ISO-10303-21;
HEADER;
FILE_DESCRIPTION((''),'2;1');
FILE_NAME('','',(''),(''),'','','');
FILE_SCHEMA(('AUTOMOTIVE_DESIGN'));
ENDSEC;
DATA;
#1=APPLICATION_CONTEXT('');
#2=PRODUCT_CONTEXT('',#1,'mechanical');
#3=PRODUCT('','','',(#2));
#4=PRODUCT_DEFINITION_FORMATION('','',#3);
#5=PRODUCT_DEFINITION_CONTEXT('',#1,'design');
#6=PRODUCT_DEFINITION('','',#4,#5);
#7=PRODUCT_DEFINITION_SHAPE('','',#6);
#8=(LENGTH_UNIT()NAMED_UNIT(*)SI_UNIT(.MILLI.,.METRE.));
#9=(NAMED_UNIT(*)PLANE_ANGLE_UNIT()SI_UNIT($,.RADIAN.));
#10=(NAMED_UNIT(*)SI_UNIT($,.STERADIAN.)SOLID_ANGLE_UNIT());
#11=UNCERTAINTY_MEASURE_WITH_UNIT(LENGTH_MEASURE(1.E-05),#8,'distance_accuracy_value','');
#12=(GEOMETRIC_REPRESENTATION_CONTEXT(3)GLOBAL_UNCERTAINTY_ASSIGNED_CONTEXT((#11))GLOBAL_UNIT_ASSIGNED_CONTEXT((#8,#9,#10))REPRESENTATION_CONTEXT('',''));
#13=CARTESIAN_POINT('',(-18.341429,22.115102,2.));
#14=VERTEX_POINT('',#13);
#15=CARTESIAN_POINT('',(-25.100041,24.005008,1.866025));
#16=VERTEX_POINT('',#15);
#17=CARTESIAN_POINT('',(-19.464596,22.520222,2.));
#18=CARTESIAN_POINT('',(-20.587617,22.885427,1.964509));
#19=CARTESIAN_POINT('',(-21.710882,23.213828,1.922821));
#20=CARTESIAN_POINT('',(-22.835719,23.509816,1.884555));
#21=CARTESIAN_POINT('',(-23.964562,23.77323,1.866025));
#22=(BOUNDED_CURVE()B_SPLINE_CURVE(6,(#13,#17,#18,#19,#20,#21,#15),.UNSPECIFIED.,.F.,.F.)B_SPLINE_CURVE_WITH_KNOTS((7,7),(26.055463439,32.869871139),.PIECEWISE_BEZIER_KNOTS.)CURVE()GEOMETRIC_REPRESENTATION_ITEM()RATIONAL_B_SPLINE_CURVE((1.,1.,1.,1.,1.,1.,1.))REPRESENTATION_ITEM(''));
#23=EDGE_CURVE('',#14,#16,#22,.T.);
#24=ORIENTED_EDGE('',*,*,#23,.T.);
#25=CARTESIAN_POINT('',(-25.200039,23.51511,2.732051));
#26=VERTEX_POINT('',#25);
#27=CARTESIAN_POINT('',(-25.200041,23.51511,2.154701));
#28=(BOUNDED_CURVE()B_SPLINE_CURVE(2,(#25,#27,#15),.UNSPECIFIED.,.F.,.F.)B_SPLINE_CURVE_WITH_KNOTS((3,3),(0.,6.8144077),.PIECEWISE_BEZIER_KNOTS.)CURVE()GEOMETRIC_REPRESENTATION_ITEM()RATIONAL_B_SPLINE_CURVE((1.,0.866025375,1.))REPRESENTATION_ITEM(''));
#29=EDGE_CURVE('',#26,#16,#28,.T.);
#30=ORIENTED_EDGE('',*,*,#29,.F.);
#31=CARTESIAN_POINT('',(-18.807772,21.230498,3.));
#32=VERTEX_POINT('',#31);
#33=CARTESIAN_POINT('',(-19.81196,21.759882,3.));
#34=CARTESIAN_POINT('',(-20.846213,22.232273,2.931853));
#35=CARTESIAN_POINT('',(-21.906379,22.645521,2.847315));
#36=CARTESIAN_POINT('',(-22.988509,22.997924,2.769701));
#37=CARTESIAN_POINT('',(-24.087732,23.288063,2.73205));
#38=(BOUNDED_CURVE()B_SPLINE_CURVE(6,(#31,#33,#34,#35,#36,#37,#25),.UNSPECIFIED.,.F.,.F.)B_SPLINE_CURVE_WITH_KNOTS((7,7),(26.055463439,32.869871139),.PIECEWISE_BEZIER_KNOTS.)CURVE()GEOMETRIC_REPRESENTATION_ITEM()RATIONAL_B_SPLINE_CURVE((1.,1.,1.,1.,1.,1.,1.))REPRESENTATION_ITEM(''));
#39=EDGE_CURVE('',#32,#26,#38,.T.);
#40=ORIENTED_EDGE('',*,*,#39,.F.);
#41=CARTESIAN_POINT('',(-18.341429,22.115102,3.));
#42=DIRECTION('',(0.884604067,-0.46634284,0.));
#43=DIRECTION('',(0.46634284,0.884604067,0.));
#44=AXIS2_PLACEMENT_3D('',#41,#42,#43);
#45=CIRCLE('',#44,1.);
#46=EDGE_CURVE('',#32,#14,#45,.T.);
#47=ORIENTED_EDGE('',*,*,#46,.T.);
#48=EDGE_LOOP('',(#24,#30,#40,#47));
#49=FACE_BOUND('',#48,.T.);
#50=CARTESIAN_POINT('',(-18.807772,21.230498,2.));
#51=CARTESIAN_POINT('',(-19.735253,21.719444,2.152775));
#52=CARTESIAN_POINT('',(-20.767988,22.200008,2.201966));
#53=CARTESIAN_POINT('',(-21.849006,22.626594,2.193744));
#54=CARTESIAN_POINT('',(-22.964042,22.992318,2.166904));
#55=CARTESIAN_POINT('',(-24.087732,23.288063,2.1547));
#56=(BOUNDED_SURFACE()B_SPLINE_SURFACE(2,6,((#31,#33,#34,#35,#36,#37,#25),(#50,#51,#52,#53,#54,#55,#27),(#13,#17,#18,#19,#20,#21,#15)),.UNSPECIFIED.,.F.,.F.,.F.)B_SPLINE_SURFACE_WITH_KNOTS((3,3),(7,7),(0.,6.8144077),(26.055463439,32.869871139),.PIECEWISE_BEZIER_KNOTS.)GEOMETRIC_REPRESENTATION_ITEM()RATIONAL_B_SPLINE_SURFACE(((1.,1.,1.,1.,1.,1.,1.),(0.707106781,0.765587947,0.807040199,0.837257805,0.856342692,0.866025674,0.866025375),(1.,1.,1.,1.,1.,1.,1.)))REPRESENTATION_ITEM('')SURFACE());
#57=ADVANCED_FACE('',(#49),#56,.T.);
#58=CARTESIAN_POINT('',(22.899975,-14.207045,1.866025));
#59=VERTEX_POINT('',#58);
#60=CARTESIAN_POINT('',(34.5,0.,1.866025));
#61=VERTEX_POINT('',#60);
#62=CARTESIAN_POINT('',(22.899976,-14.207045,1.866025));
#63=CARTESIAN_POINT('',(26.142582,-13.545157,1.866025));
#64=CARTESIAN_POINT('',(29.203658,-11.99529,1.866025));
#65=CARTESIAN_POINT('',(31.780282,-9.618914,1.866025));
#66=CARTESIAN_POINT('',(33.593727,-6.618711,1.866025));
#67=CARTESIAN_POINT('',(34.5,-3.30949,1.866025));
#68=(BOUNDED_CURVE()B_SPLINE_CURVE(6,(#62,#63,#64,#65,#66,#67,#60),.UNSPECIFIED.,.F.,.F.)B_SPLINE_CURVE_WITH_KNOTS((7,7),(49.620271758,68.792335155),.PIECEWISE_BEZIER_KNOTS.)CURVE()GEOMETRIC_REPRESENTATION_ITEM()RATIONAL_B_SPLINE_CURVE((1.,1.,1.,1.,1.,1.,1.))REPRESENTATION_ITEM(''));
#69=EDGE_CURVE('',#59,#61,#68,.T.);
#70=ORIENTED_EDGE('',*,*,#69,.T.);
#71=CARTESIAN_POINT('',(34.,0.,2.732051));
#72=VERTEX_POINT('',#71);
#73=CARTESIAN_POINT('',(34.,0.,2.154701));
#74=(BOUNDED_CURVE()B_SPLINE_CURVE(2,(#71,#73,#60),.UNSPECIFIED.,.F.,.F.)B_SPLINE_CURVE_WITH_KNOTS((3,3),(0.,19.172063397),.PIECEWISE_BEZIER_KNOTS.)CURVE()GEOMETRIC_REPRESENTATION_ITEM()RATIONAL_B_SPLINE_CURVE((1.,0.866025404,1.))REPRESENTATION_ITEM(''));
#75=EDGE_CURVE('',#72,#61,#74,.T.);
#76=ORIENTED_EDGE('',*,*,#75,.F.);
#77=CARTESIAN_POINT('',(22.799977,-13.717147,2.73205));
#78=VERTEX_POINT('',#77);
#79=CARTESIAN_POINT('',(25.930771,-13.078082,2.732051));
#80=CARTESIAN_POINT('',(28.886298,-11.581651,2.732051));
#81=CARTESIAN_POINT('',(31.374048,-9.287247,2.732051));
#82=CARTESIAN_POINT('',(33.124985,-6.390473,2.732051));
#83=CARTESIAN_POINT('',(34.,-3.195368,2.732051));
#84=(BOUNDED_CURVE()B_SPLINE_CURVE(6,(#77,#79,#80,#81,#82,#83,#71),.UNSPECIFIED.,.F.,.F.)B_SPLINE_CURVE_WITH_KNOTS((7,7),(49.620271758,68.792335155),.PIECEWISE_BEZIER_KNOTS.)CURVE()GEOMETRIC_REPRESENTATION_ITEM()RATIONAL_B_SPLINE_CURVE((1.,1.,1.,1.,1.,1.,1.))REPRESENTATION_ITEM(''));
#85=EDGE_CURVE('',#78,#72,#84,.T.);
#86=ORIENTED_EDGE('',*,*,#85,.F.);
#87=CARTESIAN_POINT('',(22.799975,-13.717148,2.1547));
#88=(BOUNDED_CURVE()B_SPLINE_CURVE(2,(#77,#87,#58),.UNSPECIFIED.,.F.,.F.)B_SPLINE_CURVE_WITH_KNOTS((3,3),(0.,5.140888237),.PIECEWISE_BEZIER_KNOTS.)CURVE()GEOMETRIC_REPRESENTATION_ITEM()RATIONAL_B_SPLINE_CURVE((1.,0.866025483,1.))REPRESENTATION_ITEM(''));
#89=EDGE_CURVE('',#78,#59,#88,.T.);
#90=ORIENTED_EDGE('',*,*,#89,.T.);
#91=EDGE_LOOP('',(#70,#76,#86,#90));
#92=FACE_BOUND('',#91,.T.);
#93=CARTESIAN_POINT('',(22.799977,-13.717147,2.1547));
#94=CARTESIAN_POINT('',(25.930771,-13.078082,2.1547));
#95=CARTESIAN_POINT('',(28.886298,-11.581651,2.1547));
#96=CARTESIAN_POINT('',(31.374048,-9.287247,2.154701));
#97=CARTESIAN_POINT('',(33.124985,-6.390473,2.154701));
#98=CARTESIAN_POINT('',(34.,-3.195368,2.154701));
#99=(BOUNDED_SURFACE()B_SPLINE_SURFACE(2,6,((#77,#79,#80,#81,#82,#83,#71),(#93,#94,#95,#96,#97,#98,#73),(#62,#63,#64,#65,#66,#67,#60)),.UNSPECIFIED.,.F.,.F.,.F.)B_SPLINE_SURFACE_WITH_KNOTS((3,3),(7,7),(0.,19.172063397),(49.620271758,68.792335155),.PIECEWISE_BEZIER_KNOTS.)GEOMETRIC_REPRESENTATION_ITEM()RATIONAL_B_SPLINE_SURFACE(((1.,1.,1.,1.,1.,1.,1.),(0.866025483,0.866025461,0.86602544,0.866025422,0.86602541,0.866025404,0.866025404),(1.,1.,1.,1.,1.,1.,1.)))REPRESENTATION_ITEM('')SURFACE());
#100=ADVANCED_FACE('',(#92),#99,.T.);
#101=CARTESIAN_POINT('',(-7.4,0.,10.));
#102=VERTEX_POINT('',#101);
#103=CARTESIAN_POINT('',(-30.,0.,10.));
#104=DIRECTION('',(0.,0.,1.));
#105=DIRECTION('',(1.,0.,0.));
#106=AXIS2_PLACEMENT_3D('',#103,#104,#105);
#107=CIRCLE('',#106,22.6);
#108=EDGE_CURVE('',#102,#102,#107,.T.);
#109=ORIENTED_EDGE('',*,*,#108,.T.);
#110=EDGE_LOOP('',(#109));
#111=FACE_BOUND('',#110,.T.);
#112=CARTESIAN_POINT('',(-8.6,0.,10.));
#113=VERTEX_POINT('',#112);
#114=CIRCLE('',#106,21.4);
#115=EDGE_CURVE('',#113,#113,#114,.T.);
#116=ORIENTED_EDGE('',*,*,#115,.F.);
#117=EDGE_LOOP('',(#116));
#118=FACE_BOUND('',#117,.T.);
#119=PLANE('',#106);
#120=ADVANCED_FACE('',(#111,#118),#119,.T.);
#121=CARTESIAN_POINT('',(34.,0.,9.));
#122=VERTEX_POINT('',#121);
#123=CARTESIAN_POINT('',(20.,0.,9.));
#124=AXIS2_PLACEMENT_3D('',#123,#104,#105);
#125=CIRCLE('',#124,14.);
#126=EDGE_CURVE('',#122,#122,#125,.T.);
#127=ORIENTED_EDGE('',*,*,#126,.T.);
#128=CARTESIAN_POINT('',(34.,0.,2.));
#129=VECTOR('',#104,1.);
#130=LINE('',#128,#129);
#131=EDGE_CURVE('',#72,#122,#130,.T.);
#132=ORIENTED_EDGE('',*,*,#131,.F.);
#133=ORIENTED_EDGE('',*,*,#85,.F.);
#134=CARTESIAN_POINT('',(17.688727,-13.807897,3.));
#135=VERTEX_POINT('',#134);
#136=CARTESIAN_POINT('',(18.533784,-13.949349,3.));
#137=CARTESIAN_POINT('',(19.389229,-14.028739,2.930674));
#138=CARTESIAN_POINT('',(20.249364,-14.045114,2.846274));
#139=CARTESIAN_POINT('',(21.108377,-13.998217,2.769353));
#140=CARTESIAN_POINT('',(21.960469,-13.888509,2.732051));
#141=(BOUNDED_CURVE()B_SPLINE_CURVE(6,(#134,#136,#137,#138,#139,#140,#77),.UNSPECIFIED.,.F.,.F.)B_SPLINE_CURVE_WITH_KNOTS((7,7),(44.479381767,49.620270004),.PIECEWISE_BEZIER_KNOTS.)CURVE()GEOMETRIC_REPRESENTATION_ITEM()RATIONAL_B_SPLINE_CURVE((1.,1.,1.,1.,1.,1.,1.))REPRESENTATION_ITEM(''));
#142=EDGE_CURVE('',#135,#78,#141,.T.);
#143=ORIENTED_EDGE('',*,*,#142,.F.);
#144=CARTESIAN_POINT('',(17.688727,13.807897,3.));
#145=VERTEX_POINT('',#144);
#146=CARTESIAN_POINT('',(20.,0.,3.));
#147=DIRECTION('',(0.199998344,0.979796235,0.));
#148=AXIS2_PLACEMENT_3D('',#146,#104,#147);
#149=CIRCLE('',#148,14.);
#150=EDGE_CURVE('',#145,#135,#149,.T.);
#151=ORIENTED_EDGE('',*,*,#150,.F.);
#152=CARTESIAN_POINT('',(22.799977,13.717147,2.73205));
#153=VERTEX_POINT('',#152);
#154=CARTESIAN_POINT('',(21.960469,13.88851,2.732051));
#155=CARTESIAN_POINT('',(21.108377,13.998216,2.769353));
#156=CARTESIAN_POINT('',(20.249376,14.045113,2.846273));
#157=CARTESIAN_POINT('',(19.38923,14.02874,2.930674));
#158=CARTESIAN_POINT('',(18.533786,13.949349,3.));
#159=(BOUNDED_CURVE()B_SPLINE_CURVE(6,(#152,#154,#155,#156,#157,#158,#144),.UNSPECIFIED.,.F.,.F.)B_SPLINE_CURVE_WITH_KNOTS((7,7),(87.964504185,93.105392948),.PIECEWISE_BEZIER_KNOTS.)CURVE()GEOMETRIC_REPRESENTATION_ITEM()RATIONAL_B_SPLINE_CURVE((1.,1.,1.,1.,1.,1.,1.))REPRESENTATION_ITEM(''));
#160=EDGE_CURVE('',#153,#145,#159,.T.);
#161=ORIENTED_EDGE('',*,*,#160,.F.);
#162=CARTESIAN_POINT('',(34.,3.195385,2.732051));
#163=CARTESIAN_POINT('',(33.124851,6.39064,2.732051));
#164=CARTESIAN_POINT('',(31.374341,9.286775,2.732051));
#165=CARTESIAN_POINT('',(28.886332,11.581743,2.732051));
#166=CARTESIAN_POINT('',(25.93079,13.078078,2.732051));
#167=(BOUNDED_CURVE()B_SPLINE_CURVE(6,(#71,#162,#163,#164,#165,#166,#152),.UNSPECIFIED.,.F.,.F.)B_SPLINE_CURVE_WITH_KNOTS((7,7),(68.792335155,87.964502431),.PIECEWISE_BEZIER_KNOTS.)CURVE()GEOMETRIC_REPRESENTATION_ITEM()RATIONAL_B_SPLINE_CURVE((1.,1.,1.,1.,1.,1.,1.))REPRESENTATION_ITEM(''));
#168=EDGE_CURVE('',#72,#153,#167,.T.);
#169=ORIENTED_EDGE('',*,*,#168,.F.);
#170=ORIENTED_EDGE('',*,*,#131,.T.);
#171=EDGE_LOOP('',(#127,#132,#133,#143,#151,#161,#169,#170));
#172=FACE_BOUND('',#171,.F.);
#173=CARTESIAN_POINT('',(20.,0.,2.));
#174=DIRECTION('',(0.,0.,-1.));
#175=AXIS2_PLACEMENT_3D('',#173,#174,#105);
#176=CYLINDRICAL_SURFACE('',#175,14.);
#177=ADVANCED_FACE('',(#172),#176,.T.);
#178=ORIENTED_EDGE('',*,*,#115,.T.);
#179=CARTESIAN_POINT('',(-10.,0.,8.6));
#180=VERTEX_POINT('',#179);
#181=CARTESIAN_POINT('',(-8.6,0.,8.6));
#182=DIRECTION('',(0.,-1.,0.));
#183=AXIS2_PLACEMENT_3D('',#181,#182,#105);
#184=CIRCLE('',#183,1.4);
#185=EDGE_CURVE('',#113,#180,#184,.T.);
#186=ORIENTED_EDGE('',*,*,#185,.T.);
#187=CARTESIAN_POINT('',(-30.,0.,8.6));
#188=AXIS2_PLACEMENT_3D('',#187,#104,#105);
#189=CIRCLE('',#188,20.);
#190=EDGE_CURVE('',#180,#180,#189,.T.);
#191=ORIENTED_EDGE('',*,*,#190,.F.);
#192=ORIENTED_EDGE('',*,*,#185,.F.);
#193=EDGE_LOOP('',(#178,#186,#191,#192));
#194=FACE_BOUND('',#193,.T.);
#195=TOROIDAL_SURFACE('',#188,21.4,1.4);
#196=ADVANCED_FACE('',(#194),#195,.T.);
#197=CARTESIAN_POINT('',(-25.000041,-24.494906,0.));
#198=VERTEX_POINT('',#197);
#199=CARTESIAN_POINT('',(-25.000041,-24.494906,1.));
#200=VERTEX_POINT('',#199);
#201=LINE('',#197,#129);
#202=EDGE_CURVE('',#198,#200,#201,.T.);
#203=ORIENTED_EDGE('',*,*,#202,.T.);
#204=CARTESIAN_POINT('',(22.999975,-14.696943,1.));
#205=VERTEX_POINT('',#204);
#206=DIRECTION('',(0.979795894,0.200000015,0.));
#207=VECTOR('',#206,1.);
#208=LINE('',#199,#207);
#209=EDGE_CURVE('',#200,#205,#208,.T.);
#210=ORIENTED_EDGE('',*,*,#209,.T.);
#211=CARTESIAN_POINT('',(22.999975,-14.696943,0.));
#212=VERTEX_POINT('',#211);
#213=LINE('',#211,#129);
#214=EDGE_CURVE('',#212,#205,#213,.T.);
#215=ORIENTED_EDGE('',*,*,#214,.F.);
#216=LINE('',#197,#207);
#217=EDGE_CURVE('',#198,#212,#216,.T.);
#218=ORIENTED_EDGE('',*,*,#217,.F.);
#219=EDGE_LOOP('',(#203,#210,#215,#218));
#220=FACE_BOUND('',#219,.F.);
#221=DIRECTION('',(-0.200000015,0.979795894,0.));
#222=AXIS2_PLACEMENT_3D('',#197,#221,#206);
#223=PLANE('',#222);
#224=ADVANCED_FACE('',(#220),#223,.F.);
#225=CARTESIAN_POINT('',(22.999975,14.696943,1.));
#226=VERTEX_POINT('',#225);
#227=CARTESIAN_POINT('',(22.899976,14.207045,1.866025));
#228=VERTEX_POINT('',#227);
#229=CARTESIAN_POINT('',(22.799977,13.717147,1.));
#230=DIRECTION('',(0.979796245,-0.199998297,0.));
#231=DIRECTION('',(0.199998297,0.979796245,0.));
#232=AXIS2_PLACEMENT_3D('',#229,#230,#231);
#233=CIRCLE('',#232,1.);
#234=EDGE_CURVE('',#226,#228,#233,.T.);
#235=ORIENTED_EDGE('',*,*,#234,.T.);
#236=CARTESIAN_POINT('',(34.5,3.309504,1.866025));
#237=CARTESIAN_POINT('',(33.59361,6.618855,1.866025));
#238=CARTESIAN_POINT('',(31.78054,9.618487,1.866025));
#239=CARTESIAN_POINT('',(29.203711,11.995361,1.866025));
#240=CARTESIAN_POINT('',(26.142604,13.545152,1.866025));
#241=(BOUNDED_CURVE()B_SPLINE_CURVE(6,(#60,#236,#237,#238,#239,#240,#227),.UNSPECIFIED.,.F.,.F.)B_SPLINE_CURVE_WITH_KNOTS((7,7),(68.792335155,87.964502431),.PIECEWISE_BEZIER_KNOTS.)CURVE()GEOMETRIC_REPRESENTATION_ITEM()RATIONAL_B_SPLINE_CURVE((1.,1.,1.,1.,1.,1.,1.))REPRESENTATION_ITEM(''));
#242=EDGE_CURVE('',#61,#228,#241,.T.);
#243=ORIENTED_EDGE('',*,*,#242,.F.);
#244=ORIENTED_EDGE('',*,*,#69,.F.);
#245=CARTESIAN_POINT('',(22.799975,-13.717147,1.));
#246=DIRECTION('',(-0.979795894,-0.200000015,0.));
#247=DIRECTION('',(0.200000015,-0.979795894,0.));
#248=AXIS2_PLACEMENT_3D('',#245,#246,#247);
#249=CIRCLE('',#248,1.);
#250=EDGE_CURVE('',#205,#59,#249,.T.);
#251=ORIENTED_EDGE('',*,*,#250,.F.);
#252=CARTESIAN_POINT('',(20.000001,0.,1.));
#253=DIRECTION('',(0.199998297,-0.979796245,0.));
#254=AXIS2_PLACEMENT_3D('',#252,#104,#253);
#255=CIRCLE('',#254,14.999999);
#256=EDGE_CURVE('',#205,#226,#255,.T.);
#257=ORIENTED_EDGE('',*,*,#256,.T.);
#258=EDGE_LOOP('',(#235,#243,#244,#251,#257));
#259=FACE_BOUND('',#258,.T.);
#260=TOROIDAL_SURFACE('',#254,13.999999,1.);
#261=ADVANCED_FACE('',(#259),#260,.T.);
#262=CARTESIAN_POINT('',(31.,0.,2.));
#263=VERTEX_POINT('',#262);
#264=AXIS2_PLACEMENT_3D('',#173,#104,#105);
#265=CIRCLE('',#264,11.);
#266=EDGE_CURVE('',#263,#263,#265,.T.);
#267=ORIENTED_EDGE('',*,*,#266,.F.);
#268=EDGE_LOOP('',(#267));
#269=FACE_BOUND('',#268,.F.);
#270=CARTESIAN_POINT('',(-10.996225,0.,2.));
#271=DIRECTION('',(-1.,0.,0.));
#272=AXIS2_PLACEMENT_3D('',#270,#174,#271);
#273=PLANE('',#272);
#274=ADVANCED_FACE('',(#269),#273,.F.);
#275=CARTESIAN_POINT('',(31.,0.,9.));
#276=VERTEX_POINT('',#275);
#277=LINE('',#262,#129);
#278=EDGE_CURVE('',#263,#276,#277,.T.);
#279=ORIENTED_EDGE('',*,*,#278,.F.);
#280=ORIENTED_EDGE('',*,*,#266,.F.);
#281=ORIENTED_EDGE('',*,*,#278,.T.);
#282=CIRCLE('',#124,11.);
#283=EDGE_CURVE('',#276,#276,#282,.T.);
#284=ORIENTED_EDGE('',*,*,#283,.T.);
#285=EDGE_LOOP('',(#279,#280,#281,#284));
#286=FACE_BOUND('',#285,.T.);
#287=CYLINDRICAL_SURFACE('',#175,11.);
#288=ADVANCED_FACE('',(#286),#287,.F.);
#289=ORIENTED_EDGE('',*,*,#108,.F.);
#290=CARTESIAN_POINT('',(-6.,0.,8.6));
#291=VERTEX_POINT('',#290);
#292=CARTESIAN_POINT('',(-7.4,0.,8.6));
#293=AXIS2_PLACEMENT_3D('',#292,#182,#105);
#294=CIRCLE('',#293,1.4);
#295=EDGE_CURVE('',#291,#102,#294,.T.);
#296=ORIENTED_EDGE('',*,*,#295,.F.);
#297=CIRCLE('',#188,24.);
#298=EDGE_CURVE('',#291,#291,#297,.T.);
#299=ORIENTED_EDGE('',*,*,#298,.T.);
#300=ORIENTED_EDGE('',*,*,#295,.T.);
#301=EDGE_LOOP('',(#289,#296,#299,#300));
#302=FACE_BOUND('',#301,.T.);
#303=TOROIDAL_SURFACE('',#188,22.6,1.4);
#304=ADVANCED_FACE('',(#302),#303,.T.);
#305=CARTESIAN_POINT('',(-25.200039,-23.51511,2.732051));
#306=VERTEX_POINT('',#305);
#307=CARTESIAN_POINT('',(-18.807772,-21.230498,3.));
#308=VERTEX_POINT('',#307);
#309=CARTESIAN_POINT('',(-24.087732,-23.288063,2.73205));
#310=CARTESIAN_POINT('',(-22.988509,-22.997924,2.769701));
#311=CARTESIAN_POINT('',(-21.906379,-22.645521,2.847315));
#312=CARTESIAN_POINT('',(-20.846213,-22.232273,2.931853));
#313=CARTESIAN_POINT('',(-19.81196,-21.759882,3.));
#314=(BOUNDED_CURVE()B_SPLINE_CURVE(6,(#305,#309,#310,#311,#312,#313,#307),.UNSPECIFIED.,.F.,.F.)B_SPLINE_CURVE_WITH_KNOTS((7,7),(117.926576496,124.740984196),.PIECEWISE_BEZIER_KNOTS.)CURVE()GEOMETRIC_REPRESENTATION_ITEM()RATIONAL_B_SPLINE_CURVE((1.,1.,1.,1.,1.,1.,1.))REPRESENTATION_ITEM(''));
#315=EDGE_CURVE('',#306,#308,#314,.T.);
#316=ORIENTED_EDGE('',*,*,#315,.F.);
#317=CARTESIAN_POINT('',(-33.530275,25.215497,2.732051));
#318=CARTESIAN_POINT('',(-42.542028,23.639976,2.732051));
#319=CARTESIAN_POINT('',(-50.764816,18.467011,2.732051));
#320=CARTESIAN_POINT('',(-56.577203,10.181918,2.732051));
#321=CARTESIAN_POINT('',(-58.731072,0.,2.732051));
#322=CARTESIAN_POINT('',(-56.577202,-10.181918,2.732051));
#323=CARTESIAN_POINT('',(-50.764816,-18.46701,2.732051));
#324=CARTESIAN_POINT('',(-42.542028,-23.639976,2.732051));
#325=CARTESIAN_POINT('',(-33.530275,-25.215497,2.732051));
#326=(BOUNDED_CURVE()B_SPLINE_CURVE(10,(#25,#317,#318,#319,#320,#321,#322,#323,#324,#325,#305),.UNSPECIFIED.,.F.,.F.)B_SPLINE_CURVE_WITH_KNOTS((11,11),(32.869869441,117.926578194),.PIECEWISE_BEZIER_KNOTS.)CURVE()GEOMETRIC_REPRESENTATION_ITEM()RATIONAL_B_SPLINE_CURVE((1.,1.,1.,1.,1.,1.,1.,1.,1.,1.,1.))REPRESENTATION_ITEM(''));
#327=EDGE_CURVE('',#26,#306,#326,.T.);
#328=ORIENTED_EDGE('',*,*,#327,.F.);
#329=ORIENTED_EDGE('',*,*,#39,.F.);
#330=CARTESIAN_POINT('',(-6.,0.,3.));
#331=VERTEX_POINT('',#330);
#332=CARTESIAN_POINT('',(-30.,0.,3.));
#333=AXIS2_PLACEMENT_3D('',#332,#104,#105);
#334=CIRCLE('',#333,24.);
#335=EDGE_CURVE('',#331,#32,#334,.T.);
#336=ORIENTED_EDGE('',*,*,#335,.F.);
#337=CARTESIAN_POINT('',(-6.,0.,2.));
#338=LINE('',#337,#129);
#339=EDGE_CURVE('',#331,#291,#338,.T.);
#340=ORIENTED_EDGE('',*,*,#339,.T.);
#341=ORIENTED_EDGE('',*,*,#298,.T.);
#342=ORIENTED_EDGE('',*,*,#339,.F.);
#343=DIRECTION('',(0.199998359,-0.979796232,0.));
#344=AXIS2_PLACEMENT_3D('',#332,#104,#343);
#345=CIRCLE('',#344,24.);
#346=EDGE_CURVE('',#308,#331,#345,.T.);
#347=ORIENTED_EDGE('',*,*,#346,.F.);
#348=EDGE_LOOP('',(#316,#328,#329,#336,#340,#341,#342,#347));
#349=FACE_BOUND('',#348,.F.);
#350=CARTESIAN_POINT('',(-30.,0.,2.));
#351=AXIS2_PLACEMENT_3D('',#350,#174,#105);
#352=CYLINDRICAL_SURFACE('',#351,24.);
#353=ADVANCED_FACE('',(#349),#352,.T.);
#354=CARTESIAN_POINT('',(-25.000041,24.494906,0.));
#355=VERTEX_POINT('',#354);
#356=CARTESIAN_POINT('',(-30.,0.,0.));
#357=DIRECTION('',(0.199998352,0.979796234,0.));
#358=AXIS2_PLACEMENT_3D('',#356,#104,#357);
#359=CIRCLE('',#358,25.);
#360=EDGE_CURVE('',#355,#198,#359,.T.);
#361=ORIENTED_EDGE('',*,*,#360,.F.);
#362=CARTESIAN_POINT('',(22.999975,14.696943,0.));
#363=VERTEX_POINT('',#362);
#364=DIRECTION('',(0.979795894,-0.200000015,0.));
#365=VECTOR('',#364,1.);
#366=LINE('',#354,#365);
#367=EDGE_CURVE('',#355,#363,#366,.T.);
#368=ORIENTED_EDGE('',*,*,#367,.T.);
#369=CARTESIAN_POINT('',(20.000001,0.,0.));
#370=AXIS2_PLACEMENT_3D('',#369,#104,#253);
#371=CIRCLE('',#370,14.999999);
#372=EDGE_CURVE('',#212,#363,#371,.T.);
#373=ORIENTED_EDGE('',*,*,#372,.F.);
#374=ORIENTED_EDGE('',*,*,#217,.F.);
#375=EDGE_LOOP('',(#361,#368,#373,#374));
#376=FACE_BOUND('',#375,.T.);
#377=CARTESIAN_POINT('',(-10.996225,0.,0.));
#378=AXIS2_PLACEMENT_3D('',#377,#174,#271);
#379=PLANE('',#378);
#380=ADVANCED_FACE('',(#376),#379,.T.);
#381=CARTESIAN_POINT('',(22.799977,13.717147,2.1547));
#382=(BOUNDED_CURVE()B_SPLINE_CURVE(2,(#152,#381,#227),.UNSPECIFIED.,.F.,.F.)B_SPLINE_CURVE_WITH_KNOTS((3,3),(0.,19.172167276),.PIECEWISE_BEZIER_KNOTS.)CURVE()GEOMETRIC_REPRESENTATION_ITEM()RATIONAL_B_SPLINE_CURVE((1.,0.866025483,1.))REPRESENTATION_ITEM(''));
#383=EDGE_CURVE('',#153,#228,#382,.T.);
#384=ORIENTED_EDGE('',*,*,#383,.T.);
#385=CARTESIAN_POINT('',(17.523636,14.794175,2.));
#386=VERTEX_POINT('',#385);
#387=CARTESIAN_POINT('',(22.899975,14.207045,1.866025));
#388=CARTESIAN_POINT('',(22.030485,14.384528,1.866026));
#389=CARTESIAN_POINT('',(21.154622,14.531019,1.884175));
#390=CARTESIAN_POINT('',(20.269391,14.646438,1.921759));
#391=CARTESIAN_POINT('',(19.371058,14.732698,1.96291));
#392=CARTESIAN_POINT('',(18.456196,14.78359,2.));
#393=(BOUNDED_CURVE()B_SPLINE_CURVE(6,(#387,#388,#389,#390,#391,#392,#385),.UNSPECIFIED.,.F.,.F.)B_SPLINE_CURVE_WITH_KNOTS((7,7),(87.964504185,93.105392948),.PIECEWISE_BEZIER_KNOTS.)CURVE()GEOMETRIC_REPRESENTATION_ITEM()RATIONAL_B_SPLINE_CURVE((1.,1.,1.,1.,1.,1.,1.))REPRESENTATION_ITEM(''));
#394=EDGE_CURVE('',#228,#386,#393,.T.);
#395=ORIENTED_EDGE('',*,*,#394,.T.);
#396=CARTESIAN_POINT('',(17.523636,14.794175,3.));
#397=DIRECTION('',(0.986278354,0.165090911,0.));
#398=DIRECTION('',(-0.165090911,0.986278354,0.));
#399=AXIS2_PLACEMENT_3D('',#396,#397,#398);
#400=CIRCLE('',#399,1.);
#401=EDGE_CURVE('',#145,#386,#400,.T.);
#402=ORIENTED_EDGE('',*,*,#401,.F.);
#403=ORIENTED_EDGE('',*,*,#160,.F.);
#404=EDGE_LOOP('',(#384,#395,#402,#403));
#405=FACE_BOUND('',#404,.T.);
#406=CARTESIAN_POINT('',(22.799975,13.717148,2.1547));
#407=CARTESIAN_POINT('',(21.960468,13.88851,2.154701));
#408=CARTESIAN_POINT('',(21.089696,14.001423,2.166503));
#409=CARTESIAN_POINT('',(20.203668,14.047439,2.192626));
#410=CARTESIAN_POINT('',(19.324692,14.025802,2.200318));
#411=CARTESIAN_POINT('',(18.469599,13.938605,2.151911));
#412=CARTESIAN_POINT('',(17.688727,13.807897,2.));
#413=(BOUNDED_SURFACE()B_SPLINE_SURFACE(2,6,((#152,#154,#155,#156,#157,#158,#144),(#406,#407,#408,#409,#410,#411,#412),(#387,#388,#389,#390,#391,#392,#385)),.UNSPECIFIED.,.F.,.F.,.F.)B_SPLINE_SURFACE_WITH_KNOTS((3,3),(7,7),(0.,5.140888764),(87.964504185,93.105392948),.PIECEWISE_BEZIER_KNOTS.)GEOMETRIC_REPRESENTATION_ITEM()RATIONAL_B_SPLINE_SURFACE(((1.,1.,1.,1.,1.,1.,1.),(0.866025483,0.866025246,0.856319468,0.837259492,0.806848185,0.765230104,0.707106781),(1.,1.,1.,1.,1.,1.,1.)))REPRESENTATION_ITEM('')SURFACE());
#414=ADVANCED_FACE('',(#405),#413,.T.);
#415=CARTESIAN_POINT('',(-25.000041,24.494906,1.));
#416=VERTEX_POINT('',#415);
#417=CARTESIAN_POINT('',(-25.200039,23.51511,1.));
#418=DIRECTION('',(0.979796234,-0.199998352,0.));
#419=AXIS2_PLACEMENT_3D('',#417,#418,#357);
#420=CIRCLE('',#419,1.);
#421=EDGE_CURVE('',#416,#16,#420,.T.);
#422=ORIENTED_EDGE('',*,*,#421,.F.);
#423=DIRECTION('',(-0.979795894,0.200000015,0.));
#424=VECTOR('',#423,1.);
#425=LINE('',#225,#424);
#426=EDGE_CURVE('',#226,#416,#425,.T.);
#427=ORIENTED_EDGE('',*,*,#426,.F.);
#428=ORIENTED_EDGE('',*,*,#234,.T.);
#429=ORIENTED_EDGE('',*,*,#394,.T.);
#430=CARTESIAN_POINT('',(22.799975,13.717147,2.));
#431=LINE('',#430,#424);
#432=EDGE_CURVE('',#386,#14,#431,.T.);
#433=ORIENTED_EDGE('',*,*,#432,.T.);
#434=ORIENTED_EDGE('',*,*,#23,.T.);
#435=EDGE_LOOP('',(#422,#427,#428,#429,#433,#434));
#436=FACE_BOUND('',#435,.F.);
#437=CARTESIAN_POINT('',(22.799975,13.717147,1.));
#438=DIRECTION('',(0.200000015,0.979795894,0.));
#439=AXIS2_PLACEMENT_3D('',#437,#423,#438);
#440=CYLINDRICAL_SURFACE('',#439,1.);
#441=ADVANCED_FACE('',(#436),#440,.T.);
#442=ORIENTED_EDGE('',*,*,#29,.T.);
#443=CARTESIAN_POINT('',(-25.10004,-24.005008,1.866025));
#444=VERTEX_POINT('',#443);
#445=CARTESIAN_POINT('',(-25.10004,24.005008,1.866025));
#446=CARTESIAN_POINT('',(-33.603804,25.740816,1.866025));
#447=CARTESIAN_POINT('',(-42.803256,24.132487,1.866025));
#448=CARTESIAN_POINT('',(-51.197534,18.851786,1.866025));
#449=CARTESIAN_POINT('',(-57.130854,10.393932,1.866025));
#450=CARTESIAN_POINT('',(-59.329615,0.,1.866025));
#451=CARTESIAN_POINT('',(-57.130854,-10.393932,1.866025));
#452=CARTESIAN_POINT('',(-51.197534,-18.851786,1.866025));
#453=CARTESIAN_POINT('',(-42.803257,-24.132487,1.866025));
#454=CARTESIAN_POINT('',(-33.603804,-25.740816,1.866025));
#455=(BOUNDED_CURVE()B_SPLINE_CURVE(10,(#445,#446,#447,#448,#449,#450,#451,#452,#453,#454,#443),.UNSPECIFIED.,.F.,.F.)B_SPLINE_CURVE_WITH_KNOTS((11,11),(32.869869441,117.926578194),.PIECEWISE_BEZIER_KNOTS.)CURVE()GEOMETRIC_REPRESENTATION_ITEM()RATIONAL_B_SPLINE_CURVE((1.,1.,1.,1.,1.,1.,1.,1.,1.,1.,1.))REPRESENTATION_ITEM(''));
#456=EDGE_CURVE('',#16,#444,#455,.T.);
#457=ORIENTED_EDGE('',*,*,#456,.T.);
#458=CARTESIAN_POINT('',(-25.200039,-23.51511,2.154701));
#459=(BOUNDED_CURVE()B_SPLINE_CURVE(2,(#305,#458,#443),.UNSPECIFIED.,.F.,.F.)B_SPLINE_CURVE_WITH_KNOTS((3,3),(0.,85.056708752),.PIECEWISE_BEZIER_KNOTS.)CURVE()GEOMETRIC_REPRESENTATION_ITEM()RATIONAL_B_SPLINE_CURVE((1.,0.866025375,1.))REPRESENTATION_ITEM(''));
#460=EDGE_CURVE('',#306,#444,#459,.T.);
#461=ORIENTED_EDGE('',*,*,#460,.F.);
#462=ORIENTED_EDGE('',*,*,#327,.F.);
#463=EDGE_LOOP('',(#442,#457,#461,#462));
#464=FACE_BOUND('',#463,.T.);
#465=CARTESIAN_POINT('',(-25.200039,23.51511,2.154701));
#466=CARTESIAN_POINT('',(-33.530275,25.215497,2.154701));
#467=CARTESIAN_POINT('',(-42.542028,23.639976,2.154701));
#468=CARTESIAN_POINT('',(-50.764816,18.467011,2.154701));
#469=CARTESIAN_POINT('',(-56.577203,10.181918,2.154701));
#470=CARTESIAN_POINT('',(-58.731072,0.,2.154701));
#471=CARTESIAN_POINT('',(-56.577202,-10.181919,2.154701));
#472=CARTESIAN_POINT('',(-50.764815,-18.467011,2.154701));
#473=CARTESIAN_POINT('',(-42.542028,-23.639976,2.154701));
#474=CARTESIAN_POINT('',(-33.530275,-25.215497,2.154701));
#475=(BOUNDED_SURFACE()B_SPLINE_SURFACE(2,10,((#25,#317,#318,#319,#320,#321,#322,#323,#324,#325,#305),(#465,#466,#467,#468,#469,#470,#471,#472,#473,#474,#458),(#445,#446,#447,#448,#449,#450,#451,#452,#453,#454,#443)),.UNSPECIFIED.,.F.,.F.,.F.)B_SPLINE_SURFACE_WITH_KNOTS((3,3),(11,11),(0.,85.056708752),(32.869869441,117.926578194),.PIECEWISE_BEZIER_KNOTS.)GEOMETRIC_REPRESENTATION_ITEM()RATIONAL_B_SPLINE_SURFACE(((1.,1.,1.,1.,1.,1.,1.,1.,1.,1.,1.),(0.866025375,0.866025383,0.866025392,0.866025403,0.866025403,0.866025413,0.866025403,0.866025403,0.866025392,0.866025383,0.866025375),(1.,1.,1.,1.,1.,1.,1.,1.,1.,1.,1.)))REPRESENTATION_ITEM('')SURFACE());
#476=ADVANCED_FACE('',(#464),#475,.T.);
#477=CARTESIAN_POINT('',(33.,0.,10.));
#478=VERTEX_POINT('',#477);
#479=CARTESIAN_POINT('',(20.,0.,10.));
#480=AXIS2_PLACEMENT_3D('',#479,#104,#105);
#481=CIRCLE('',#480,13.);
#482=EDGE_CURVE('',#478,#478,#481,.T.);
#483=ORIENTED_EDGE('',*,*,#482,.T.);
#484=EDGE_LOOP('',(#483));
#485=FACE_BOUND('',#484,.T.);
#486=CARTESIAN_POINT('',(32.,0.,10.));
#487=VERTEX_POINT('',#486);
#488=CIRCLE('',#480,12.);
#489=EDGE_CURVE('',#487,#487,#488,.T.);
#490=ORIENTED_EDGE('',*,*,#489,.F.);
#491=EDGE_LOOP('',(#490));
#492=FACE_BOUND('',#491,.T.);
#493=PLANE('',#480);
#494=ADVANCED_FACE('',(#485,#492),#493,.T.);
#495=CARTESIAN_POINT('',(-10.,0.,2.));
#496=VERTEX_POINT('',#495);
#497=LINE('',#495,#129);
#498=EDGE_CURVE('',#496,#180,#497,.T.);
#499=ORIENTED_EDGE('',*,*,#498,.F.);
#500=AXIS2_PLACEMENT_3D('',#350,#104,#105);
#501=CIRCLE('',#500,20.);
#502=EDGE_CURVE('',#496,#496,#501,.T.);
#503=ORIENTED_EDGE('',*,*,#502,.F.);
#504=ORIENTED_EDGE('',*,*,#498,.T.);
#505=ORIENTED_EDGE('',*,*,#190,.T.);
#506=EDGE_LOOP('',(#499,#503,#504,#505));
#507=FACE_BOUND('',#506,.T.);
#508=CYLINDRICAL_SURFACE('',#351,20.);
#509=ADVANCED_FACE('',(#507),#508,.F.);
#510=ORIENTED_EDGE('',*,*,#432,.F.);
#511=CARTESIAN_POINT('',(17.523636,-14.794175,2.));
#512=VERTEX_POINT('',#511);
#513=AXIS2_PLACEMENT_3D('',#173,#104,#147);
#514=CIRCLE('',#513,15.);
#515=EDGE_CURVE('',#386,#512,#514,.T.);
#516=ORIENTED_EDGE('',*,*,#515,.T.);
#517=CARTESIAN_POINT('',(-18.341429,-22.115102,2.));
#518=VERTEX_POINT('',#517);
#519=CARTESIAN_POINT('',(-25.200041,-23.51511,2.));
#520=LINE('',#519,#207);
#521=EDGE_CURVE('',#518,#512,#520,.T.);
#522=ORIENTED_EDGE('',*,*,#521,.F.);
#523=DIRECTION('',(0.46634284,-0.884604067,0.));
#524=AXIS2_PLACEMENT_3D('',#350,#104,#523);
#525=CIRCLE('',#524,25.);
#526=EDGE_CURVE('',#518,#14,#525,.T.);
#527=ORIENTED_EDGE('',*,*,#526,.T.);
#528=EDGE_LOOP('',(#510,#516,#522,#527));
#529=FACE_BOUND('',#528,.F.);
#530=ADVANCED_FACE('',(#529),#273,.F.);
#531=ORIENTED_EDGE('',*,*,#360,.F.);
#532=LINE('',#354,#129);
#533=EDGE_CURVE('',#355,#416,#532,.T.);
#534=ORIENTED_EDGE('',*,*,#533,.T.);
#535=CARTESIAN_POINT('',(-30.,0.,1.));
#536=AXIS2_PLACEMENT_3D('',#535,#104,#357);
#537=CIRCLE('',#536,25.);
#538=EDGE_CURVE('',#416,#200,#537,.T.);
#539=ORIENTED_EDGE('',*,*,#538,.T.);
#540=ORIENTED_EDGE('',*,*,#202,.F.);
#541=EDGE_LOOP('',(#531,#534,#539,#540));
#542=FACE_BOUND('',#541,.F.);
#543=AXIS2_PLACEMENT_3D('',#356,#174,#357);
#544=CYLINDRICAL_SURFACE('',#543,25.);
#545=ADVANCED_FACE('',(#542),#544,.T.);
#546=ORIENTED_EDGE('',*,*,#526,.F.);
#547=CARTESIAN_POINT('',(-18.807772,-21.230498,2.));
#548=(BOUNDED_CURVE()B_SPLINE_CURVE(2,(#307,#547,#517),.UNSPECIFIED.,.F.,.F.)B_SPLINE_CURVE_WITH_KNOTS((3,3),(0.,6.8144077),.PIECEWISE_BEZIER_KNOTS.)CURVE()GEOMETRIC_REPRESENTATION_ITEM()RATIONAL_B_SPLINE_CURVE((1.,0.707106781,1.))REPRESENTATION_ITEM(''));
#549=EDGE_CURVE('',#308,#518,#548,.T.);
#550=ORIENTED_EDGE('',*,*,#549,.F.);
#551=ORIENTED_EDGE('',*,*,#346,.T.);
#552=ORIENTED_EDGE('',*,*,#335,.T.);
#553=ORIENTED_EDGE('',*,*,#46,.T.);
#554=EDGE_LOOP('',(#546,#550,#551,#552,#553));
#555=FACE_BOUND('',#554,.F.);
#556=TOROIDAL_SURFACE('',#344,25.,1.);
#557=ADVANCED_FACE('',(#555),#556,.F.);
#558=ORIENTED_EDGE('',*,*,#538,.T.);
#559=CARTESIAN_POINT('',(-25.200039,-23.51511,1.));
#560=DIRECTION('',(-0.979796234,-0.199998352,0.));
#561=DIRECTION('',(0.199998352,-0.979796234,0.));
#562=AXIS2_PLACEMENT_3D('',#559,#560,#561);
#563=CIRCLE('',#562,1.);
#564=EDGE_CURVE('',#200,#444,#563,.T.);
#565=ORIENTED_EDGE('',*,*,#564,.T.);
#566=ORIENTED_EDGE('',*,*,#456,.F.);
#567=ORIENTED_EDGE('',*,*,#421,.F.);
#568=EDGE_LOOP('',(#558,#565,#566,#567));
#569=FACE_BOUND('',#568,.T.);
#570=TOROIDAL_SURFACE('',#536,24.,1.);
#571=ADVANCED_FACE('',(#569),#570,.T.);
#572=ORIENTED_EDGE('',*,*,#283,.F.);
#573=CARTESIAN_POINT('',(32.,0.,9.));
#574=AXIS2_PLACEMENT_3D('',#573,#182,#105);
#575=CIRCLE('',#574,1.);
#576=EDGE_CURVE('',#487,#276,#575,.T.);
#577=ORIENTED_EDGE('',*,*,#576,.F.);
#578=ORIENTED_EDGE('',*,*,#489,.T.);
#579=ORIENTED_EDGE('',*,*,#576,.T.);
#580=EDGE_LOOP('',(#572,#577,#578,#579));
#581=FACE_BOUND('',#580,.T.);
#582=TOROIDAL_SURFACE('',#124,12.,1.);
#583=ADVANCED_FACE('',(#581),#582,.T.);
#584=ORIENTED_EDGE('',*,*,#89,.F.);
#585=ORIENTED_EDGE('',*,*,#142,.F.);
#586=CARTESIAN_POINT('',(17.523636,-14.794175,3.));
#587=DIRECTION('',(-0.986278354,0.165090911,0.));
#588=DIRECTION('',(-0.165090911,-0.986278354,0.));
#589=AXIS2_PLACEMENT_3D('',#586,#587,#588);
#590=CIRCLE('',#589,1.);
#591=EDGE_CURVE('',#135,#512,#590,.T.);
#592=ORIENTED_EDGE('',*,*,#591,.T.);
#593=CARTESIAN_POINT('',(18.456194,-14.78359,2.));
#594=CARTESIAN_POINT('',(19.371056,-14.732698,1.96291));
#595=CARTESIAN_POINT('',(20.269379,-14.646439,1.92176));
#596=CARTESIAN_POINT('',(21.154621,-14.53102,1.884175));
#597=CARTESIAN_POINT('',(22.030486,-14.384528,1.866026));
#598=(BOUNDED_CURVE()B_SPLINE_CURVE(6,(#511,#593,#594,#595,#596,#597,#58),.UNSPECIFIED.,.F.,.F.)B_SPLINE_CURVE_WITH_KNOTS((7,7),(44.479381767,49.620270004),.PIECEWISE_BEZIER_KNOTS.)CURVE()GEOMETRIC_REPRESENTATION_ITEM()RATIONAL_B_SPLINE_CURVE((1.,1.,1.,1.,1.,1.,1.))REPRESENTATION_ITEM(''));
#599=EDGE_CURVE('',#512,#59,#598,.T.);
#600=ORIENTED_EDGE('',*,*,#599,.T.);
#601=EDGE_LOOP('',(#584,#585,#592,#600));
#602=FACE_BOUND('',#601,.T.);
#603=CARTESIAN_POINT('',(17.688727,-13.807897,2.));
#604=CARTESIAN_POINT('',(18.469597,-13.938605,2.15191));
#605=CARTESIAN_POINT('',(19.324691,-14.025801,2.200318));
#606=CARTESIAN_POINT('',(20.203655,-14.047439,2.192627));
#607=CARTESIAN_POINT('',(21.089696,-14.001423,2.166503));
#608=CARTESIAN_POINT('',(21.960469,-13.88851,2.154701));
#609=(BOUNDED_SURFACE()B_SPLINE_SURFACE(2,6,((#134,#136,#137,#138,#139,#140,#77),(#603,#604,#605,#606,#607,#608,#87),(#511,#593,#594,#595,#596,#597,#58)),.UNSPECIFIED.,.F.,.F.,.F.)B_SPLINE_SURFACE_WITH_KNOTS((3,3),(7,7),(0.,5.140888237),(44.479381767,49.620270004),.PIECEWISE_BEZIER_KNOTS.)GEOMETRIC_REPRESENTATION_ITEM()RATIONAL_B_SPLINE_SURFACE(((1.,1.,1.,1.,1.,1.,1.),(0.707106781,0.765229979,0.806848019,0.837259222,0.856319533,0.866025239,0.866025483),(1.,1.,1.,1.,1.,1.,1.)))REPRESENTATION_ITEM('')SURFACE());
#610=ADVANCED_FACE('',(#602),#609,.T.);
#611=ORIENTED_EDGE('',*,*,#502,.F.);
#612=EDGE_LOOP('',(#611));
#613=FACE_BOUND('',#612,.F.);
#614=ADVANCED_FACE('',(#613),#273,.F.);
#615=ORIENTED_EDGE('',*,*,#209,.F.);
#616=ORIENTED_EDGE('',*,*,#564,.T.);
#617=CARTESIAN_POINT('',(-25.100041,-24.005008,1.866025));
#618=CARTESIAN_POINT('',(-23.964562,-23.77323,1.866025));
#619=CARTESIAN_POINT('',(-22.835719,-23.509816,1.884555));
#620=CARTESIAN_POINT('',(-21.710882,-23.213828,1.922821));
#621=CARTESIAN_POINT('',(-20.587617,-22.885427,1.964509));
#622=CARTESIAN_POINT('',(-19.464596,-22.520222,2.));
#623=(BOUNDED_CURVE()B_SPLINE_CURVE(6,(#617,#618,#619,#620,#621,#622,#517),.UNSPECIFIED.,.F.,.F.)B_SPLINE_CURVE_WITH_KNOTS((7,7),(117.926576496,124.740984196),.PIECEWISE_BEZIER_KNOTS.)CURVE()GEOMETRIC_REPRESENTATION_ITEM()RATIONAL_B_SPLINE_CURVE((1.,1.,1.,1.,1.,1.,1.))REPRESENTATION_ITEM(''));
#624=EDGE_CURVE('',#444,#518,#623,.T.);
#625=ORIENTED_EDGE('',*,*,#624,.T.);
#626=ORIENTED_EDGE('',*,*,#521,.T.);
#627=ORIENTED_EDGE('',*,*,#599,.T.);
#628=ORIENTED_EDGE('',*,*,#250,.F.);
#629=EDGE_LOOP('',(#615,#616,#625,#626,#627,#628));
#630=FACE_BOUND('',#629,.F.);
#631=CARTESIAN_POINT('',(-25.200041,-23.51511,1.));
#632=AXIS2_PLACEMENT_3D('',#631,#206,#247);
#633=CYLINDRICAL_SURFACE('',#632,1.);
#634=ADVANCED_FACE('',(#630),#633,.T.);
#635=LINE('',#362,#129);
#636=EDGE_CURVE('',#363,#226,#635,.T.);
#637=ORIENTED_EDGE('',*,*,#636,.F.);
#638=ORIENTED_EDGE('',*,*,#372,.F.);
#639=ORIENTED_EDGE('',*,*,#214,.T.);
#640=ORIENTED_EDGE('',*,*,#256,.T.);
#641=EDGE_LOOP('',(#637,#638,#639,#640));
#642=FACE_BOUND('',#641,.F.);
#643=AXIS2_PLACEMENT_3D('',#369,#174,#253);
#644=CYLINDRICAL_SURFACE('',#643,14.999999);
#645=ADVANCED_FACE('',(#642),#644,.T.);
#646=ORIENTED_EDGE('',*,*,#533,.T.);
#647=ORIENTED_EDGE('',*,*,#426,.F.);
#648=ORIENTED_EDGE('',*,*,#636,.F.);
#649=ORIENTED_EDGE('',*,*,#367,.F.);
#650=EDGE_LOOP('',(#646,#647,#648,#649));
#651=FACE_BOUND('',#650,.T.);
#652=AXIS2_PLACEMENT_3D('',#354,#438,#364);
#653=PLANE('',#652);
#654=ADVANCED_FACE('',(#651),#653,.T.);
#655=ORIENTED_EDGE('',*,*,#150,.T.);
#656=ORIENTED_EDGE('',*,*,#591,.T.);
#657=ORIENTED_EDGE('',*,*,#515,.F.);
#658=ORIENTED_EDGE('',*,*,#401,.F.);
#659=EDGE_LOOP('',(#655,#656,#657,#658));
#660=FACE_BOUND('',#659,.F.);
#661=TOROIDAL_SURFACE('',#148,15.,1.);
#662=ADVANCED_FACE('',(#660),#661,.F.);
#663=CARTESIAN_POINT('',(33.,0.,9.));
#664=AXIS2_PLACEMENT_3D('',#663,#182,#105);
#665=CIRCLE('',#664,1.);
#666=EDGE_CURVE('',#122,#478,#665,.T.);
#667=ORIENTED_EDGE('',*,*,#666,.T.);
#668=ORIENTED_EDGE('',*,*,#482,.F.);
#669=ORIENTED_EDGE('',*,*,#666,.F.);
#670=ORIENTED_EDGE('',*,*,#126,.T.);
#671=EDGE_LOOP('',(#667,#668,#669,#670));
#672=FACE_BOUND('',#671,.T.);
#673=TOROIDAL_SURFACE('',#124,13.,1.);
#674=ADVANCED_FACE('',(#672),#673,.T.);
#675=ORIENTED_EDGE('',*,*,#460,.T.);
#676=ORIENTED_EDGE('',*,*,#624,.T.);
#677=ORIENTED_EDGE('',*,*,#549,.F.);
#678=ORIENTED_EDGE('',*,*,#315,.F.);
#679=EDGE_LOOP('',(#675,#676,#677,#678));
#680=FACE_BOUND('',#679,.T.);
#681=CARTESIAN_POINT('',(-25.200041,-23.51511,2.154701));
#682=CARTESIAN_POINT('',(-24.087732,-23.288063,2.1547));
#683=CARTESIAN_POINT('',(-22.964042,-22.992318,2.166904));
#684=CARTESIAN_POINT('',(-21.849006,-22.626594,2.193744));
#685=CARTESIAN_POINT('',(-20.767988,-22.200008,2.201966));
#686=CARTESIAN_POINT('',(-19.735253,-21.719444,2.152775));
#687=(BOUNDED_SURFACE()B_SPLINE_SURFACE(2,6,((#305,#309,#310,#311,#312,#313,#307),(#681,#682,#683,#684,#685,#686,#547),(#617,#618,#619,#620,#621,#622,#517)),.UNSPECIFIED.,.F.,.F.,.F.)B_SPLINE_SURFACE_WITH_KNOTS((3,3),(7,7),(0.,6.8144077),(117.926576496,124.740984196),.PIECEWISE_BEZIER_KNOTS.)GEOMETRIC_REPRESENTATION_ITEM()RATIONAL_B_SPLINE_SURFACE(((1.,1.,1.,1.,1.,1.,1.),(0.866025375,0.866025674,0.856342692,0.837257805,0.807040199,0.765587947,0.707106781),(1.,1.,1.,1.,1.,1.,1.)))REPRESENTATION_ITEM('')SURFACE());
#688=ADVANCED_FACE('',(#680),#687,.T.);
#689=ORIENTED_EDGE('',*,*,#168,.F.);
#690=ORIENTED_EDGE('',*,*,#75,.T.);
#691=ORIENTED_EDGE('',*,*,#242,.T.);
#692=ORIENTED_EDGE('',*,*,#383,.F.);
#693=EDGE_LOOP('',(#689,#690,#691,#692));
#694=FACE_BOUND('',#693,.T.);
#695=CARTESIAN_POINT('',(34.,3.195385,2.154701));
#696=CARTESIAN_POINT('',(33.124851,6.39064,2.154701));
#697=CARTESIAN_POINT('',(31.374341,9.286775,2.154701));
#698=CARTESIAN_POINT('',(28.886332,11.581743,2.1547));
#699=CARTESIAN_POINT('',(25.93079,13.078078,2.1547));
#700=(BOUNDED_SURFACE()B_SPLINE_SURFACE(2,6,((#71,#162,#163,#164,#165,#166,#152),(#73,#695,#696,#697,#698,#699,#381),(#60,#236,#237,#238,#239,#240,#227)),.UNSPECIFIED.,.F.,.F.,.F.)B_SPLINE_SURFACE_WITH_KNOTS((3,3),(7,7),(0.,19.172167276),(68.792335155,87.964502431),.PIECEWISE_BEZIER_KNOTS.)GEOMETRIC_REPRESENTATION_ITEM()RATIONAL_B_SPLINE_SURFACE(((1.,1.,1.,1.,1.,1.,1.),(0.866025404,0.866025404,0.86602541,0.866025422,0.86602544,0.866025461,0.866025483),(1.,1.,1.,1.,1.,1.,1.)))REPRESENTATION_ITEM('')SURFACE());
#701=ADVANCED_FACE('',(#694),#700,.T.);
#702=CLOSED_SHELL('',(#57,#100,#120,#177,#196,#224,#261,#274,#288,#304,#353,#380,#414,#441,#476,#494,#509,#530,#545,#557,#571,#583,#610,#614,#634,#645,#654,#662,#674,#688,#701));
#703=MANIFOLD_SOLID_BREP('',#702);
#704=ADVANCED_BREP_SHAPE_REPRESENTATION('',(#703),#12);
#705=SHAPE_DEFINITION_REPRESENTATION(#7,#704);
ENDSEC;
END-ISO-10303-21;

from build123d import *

# Parameters (mm, degrees)
PAD_DEPTH     = 2
FILLET_R      = 1
SKETCH001_R   = 24
SKETCH001_R_2 = 20
SKETCH001_R_3 = 14
SKETCH001_R_4 = 11
PAD001_DEPTH  = 8
FILLET001_R   = 1
FILLET002_R   = 1
FILLET003_R   = 1.4
FILLET004_R   = 1


with BuildPart() as part:
    # Sketch → Pad (new body)
    with BuildSketch(Plane.XY):
        with BuildLine():
            Line((-25.000041, 24.494906), (22.999975, 14.696943))
            ThreePointArc((22.999975, -14.696943), (35, 0), (22.999975, 14.696943))
            Line((-25.000041, -24.494906), (22.999975, -14.696943))
            ThreePointArc((-25.000041, 24.494906), (-55, 0), (-25.000041, -24.494906))
        make_face()
    extrude(amount=PAD_DEPTH)

    # Fillet
    fillet_edges = [part.edges().sort_by_distance(p)[0] for p in [
        (-55, 0, 2),
        (-1.000033, -19.595925, 2),
        (35, 0, 2),
        (-1.000033, 19.595925, 2),
    ]]
    fillet(fillet_edges, radius=FILLET_R)

    # Sketch001 (on Face8 of Fillet) → Pad001 (join)
    with BuildSketch(Plane.XY.offset(2)):
        with Locations((-30, 0)):
            Circle(SKETCH001_R)
        with Locations((-30, 0)):
            Circle(SKETCH001_R_2, mode=Mode.SUBTRACT)
        with Locations((20, 0)):
            Circle(SKETCH001_R_3)
        with Locations((20, 0)):
            Circle(SKETCH001_R_4, mode=Mode.SUBTRACT)
    extrude(amount=PAD001_DEPTH)

    # Fillet001
    fillet001_edges = [part.edges().sort_by_distance(p)[0] for p in [
        (-11.409692, 15.178948, 2),
        (-54, 0, 2),
        (-11.409692, -15.178948, 2),
    ]]
    fillet(fillet001_edges, radius=FILLET001_R)

    # Fillet002
    fillet002_edges = [part.edges().sort_by_distance(p)[0] for p in [
        (6, 1e-06, 2),
        (30.844346, 8.854387, 2),
        (30.844346, -8.854387, 2),
    ]]
    fillet(fillet002_edges, radius=FILLET002_R)

    # Fillet003
    fillet003_edges = [part.edges().sort_by_distance(p)[0] for p in [
        (-54, 0, 10),
        (-50, 0, 10),
    ]]
    fillet(fillet003_edges, radius=FILLET003_R)

    # Fillet004
    fillet004_edges = [part.edges().sort_by_distance(p)[0] for p in [
        (6, 0, 10),
        (9, 0, 10),
    ]]
    fillet(fillet004_edges, radius=FILLET004_R)


solid = part.part
